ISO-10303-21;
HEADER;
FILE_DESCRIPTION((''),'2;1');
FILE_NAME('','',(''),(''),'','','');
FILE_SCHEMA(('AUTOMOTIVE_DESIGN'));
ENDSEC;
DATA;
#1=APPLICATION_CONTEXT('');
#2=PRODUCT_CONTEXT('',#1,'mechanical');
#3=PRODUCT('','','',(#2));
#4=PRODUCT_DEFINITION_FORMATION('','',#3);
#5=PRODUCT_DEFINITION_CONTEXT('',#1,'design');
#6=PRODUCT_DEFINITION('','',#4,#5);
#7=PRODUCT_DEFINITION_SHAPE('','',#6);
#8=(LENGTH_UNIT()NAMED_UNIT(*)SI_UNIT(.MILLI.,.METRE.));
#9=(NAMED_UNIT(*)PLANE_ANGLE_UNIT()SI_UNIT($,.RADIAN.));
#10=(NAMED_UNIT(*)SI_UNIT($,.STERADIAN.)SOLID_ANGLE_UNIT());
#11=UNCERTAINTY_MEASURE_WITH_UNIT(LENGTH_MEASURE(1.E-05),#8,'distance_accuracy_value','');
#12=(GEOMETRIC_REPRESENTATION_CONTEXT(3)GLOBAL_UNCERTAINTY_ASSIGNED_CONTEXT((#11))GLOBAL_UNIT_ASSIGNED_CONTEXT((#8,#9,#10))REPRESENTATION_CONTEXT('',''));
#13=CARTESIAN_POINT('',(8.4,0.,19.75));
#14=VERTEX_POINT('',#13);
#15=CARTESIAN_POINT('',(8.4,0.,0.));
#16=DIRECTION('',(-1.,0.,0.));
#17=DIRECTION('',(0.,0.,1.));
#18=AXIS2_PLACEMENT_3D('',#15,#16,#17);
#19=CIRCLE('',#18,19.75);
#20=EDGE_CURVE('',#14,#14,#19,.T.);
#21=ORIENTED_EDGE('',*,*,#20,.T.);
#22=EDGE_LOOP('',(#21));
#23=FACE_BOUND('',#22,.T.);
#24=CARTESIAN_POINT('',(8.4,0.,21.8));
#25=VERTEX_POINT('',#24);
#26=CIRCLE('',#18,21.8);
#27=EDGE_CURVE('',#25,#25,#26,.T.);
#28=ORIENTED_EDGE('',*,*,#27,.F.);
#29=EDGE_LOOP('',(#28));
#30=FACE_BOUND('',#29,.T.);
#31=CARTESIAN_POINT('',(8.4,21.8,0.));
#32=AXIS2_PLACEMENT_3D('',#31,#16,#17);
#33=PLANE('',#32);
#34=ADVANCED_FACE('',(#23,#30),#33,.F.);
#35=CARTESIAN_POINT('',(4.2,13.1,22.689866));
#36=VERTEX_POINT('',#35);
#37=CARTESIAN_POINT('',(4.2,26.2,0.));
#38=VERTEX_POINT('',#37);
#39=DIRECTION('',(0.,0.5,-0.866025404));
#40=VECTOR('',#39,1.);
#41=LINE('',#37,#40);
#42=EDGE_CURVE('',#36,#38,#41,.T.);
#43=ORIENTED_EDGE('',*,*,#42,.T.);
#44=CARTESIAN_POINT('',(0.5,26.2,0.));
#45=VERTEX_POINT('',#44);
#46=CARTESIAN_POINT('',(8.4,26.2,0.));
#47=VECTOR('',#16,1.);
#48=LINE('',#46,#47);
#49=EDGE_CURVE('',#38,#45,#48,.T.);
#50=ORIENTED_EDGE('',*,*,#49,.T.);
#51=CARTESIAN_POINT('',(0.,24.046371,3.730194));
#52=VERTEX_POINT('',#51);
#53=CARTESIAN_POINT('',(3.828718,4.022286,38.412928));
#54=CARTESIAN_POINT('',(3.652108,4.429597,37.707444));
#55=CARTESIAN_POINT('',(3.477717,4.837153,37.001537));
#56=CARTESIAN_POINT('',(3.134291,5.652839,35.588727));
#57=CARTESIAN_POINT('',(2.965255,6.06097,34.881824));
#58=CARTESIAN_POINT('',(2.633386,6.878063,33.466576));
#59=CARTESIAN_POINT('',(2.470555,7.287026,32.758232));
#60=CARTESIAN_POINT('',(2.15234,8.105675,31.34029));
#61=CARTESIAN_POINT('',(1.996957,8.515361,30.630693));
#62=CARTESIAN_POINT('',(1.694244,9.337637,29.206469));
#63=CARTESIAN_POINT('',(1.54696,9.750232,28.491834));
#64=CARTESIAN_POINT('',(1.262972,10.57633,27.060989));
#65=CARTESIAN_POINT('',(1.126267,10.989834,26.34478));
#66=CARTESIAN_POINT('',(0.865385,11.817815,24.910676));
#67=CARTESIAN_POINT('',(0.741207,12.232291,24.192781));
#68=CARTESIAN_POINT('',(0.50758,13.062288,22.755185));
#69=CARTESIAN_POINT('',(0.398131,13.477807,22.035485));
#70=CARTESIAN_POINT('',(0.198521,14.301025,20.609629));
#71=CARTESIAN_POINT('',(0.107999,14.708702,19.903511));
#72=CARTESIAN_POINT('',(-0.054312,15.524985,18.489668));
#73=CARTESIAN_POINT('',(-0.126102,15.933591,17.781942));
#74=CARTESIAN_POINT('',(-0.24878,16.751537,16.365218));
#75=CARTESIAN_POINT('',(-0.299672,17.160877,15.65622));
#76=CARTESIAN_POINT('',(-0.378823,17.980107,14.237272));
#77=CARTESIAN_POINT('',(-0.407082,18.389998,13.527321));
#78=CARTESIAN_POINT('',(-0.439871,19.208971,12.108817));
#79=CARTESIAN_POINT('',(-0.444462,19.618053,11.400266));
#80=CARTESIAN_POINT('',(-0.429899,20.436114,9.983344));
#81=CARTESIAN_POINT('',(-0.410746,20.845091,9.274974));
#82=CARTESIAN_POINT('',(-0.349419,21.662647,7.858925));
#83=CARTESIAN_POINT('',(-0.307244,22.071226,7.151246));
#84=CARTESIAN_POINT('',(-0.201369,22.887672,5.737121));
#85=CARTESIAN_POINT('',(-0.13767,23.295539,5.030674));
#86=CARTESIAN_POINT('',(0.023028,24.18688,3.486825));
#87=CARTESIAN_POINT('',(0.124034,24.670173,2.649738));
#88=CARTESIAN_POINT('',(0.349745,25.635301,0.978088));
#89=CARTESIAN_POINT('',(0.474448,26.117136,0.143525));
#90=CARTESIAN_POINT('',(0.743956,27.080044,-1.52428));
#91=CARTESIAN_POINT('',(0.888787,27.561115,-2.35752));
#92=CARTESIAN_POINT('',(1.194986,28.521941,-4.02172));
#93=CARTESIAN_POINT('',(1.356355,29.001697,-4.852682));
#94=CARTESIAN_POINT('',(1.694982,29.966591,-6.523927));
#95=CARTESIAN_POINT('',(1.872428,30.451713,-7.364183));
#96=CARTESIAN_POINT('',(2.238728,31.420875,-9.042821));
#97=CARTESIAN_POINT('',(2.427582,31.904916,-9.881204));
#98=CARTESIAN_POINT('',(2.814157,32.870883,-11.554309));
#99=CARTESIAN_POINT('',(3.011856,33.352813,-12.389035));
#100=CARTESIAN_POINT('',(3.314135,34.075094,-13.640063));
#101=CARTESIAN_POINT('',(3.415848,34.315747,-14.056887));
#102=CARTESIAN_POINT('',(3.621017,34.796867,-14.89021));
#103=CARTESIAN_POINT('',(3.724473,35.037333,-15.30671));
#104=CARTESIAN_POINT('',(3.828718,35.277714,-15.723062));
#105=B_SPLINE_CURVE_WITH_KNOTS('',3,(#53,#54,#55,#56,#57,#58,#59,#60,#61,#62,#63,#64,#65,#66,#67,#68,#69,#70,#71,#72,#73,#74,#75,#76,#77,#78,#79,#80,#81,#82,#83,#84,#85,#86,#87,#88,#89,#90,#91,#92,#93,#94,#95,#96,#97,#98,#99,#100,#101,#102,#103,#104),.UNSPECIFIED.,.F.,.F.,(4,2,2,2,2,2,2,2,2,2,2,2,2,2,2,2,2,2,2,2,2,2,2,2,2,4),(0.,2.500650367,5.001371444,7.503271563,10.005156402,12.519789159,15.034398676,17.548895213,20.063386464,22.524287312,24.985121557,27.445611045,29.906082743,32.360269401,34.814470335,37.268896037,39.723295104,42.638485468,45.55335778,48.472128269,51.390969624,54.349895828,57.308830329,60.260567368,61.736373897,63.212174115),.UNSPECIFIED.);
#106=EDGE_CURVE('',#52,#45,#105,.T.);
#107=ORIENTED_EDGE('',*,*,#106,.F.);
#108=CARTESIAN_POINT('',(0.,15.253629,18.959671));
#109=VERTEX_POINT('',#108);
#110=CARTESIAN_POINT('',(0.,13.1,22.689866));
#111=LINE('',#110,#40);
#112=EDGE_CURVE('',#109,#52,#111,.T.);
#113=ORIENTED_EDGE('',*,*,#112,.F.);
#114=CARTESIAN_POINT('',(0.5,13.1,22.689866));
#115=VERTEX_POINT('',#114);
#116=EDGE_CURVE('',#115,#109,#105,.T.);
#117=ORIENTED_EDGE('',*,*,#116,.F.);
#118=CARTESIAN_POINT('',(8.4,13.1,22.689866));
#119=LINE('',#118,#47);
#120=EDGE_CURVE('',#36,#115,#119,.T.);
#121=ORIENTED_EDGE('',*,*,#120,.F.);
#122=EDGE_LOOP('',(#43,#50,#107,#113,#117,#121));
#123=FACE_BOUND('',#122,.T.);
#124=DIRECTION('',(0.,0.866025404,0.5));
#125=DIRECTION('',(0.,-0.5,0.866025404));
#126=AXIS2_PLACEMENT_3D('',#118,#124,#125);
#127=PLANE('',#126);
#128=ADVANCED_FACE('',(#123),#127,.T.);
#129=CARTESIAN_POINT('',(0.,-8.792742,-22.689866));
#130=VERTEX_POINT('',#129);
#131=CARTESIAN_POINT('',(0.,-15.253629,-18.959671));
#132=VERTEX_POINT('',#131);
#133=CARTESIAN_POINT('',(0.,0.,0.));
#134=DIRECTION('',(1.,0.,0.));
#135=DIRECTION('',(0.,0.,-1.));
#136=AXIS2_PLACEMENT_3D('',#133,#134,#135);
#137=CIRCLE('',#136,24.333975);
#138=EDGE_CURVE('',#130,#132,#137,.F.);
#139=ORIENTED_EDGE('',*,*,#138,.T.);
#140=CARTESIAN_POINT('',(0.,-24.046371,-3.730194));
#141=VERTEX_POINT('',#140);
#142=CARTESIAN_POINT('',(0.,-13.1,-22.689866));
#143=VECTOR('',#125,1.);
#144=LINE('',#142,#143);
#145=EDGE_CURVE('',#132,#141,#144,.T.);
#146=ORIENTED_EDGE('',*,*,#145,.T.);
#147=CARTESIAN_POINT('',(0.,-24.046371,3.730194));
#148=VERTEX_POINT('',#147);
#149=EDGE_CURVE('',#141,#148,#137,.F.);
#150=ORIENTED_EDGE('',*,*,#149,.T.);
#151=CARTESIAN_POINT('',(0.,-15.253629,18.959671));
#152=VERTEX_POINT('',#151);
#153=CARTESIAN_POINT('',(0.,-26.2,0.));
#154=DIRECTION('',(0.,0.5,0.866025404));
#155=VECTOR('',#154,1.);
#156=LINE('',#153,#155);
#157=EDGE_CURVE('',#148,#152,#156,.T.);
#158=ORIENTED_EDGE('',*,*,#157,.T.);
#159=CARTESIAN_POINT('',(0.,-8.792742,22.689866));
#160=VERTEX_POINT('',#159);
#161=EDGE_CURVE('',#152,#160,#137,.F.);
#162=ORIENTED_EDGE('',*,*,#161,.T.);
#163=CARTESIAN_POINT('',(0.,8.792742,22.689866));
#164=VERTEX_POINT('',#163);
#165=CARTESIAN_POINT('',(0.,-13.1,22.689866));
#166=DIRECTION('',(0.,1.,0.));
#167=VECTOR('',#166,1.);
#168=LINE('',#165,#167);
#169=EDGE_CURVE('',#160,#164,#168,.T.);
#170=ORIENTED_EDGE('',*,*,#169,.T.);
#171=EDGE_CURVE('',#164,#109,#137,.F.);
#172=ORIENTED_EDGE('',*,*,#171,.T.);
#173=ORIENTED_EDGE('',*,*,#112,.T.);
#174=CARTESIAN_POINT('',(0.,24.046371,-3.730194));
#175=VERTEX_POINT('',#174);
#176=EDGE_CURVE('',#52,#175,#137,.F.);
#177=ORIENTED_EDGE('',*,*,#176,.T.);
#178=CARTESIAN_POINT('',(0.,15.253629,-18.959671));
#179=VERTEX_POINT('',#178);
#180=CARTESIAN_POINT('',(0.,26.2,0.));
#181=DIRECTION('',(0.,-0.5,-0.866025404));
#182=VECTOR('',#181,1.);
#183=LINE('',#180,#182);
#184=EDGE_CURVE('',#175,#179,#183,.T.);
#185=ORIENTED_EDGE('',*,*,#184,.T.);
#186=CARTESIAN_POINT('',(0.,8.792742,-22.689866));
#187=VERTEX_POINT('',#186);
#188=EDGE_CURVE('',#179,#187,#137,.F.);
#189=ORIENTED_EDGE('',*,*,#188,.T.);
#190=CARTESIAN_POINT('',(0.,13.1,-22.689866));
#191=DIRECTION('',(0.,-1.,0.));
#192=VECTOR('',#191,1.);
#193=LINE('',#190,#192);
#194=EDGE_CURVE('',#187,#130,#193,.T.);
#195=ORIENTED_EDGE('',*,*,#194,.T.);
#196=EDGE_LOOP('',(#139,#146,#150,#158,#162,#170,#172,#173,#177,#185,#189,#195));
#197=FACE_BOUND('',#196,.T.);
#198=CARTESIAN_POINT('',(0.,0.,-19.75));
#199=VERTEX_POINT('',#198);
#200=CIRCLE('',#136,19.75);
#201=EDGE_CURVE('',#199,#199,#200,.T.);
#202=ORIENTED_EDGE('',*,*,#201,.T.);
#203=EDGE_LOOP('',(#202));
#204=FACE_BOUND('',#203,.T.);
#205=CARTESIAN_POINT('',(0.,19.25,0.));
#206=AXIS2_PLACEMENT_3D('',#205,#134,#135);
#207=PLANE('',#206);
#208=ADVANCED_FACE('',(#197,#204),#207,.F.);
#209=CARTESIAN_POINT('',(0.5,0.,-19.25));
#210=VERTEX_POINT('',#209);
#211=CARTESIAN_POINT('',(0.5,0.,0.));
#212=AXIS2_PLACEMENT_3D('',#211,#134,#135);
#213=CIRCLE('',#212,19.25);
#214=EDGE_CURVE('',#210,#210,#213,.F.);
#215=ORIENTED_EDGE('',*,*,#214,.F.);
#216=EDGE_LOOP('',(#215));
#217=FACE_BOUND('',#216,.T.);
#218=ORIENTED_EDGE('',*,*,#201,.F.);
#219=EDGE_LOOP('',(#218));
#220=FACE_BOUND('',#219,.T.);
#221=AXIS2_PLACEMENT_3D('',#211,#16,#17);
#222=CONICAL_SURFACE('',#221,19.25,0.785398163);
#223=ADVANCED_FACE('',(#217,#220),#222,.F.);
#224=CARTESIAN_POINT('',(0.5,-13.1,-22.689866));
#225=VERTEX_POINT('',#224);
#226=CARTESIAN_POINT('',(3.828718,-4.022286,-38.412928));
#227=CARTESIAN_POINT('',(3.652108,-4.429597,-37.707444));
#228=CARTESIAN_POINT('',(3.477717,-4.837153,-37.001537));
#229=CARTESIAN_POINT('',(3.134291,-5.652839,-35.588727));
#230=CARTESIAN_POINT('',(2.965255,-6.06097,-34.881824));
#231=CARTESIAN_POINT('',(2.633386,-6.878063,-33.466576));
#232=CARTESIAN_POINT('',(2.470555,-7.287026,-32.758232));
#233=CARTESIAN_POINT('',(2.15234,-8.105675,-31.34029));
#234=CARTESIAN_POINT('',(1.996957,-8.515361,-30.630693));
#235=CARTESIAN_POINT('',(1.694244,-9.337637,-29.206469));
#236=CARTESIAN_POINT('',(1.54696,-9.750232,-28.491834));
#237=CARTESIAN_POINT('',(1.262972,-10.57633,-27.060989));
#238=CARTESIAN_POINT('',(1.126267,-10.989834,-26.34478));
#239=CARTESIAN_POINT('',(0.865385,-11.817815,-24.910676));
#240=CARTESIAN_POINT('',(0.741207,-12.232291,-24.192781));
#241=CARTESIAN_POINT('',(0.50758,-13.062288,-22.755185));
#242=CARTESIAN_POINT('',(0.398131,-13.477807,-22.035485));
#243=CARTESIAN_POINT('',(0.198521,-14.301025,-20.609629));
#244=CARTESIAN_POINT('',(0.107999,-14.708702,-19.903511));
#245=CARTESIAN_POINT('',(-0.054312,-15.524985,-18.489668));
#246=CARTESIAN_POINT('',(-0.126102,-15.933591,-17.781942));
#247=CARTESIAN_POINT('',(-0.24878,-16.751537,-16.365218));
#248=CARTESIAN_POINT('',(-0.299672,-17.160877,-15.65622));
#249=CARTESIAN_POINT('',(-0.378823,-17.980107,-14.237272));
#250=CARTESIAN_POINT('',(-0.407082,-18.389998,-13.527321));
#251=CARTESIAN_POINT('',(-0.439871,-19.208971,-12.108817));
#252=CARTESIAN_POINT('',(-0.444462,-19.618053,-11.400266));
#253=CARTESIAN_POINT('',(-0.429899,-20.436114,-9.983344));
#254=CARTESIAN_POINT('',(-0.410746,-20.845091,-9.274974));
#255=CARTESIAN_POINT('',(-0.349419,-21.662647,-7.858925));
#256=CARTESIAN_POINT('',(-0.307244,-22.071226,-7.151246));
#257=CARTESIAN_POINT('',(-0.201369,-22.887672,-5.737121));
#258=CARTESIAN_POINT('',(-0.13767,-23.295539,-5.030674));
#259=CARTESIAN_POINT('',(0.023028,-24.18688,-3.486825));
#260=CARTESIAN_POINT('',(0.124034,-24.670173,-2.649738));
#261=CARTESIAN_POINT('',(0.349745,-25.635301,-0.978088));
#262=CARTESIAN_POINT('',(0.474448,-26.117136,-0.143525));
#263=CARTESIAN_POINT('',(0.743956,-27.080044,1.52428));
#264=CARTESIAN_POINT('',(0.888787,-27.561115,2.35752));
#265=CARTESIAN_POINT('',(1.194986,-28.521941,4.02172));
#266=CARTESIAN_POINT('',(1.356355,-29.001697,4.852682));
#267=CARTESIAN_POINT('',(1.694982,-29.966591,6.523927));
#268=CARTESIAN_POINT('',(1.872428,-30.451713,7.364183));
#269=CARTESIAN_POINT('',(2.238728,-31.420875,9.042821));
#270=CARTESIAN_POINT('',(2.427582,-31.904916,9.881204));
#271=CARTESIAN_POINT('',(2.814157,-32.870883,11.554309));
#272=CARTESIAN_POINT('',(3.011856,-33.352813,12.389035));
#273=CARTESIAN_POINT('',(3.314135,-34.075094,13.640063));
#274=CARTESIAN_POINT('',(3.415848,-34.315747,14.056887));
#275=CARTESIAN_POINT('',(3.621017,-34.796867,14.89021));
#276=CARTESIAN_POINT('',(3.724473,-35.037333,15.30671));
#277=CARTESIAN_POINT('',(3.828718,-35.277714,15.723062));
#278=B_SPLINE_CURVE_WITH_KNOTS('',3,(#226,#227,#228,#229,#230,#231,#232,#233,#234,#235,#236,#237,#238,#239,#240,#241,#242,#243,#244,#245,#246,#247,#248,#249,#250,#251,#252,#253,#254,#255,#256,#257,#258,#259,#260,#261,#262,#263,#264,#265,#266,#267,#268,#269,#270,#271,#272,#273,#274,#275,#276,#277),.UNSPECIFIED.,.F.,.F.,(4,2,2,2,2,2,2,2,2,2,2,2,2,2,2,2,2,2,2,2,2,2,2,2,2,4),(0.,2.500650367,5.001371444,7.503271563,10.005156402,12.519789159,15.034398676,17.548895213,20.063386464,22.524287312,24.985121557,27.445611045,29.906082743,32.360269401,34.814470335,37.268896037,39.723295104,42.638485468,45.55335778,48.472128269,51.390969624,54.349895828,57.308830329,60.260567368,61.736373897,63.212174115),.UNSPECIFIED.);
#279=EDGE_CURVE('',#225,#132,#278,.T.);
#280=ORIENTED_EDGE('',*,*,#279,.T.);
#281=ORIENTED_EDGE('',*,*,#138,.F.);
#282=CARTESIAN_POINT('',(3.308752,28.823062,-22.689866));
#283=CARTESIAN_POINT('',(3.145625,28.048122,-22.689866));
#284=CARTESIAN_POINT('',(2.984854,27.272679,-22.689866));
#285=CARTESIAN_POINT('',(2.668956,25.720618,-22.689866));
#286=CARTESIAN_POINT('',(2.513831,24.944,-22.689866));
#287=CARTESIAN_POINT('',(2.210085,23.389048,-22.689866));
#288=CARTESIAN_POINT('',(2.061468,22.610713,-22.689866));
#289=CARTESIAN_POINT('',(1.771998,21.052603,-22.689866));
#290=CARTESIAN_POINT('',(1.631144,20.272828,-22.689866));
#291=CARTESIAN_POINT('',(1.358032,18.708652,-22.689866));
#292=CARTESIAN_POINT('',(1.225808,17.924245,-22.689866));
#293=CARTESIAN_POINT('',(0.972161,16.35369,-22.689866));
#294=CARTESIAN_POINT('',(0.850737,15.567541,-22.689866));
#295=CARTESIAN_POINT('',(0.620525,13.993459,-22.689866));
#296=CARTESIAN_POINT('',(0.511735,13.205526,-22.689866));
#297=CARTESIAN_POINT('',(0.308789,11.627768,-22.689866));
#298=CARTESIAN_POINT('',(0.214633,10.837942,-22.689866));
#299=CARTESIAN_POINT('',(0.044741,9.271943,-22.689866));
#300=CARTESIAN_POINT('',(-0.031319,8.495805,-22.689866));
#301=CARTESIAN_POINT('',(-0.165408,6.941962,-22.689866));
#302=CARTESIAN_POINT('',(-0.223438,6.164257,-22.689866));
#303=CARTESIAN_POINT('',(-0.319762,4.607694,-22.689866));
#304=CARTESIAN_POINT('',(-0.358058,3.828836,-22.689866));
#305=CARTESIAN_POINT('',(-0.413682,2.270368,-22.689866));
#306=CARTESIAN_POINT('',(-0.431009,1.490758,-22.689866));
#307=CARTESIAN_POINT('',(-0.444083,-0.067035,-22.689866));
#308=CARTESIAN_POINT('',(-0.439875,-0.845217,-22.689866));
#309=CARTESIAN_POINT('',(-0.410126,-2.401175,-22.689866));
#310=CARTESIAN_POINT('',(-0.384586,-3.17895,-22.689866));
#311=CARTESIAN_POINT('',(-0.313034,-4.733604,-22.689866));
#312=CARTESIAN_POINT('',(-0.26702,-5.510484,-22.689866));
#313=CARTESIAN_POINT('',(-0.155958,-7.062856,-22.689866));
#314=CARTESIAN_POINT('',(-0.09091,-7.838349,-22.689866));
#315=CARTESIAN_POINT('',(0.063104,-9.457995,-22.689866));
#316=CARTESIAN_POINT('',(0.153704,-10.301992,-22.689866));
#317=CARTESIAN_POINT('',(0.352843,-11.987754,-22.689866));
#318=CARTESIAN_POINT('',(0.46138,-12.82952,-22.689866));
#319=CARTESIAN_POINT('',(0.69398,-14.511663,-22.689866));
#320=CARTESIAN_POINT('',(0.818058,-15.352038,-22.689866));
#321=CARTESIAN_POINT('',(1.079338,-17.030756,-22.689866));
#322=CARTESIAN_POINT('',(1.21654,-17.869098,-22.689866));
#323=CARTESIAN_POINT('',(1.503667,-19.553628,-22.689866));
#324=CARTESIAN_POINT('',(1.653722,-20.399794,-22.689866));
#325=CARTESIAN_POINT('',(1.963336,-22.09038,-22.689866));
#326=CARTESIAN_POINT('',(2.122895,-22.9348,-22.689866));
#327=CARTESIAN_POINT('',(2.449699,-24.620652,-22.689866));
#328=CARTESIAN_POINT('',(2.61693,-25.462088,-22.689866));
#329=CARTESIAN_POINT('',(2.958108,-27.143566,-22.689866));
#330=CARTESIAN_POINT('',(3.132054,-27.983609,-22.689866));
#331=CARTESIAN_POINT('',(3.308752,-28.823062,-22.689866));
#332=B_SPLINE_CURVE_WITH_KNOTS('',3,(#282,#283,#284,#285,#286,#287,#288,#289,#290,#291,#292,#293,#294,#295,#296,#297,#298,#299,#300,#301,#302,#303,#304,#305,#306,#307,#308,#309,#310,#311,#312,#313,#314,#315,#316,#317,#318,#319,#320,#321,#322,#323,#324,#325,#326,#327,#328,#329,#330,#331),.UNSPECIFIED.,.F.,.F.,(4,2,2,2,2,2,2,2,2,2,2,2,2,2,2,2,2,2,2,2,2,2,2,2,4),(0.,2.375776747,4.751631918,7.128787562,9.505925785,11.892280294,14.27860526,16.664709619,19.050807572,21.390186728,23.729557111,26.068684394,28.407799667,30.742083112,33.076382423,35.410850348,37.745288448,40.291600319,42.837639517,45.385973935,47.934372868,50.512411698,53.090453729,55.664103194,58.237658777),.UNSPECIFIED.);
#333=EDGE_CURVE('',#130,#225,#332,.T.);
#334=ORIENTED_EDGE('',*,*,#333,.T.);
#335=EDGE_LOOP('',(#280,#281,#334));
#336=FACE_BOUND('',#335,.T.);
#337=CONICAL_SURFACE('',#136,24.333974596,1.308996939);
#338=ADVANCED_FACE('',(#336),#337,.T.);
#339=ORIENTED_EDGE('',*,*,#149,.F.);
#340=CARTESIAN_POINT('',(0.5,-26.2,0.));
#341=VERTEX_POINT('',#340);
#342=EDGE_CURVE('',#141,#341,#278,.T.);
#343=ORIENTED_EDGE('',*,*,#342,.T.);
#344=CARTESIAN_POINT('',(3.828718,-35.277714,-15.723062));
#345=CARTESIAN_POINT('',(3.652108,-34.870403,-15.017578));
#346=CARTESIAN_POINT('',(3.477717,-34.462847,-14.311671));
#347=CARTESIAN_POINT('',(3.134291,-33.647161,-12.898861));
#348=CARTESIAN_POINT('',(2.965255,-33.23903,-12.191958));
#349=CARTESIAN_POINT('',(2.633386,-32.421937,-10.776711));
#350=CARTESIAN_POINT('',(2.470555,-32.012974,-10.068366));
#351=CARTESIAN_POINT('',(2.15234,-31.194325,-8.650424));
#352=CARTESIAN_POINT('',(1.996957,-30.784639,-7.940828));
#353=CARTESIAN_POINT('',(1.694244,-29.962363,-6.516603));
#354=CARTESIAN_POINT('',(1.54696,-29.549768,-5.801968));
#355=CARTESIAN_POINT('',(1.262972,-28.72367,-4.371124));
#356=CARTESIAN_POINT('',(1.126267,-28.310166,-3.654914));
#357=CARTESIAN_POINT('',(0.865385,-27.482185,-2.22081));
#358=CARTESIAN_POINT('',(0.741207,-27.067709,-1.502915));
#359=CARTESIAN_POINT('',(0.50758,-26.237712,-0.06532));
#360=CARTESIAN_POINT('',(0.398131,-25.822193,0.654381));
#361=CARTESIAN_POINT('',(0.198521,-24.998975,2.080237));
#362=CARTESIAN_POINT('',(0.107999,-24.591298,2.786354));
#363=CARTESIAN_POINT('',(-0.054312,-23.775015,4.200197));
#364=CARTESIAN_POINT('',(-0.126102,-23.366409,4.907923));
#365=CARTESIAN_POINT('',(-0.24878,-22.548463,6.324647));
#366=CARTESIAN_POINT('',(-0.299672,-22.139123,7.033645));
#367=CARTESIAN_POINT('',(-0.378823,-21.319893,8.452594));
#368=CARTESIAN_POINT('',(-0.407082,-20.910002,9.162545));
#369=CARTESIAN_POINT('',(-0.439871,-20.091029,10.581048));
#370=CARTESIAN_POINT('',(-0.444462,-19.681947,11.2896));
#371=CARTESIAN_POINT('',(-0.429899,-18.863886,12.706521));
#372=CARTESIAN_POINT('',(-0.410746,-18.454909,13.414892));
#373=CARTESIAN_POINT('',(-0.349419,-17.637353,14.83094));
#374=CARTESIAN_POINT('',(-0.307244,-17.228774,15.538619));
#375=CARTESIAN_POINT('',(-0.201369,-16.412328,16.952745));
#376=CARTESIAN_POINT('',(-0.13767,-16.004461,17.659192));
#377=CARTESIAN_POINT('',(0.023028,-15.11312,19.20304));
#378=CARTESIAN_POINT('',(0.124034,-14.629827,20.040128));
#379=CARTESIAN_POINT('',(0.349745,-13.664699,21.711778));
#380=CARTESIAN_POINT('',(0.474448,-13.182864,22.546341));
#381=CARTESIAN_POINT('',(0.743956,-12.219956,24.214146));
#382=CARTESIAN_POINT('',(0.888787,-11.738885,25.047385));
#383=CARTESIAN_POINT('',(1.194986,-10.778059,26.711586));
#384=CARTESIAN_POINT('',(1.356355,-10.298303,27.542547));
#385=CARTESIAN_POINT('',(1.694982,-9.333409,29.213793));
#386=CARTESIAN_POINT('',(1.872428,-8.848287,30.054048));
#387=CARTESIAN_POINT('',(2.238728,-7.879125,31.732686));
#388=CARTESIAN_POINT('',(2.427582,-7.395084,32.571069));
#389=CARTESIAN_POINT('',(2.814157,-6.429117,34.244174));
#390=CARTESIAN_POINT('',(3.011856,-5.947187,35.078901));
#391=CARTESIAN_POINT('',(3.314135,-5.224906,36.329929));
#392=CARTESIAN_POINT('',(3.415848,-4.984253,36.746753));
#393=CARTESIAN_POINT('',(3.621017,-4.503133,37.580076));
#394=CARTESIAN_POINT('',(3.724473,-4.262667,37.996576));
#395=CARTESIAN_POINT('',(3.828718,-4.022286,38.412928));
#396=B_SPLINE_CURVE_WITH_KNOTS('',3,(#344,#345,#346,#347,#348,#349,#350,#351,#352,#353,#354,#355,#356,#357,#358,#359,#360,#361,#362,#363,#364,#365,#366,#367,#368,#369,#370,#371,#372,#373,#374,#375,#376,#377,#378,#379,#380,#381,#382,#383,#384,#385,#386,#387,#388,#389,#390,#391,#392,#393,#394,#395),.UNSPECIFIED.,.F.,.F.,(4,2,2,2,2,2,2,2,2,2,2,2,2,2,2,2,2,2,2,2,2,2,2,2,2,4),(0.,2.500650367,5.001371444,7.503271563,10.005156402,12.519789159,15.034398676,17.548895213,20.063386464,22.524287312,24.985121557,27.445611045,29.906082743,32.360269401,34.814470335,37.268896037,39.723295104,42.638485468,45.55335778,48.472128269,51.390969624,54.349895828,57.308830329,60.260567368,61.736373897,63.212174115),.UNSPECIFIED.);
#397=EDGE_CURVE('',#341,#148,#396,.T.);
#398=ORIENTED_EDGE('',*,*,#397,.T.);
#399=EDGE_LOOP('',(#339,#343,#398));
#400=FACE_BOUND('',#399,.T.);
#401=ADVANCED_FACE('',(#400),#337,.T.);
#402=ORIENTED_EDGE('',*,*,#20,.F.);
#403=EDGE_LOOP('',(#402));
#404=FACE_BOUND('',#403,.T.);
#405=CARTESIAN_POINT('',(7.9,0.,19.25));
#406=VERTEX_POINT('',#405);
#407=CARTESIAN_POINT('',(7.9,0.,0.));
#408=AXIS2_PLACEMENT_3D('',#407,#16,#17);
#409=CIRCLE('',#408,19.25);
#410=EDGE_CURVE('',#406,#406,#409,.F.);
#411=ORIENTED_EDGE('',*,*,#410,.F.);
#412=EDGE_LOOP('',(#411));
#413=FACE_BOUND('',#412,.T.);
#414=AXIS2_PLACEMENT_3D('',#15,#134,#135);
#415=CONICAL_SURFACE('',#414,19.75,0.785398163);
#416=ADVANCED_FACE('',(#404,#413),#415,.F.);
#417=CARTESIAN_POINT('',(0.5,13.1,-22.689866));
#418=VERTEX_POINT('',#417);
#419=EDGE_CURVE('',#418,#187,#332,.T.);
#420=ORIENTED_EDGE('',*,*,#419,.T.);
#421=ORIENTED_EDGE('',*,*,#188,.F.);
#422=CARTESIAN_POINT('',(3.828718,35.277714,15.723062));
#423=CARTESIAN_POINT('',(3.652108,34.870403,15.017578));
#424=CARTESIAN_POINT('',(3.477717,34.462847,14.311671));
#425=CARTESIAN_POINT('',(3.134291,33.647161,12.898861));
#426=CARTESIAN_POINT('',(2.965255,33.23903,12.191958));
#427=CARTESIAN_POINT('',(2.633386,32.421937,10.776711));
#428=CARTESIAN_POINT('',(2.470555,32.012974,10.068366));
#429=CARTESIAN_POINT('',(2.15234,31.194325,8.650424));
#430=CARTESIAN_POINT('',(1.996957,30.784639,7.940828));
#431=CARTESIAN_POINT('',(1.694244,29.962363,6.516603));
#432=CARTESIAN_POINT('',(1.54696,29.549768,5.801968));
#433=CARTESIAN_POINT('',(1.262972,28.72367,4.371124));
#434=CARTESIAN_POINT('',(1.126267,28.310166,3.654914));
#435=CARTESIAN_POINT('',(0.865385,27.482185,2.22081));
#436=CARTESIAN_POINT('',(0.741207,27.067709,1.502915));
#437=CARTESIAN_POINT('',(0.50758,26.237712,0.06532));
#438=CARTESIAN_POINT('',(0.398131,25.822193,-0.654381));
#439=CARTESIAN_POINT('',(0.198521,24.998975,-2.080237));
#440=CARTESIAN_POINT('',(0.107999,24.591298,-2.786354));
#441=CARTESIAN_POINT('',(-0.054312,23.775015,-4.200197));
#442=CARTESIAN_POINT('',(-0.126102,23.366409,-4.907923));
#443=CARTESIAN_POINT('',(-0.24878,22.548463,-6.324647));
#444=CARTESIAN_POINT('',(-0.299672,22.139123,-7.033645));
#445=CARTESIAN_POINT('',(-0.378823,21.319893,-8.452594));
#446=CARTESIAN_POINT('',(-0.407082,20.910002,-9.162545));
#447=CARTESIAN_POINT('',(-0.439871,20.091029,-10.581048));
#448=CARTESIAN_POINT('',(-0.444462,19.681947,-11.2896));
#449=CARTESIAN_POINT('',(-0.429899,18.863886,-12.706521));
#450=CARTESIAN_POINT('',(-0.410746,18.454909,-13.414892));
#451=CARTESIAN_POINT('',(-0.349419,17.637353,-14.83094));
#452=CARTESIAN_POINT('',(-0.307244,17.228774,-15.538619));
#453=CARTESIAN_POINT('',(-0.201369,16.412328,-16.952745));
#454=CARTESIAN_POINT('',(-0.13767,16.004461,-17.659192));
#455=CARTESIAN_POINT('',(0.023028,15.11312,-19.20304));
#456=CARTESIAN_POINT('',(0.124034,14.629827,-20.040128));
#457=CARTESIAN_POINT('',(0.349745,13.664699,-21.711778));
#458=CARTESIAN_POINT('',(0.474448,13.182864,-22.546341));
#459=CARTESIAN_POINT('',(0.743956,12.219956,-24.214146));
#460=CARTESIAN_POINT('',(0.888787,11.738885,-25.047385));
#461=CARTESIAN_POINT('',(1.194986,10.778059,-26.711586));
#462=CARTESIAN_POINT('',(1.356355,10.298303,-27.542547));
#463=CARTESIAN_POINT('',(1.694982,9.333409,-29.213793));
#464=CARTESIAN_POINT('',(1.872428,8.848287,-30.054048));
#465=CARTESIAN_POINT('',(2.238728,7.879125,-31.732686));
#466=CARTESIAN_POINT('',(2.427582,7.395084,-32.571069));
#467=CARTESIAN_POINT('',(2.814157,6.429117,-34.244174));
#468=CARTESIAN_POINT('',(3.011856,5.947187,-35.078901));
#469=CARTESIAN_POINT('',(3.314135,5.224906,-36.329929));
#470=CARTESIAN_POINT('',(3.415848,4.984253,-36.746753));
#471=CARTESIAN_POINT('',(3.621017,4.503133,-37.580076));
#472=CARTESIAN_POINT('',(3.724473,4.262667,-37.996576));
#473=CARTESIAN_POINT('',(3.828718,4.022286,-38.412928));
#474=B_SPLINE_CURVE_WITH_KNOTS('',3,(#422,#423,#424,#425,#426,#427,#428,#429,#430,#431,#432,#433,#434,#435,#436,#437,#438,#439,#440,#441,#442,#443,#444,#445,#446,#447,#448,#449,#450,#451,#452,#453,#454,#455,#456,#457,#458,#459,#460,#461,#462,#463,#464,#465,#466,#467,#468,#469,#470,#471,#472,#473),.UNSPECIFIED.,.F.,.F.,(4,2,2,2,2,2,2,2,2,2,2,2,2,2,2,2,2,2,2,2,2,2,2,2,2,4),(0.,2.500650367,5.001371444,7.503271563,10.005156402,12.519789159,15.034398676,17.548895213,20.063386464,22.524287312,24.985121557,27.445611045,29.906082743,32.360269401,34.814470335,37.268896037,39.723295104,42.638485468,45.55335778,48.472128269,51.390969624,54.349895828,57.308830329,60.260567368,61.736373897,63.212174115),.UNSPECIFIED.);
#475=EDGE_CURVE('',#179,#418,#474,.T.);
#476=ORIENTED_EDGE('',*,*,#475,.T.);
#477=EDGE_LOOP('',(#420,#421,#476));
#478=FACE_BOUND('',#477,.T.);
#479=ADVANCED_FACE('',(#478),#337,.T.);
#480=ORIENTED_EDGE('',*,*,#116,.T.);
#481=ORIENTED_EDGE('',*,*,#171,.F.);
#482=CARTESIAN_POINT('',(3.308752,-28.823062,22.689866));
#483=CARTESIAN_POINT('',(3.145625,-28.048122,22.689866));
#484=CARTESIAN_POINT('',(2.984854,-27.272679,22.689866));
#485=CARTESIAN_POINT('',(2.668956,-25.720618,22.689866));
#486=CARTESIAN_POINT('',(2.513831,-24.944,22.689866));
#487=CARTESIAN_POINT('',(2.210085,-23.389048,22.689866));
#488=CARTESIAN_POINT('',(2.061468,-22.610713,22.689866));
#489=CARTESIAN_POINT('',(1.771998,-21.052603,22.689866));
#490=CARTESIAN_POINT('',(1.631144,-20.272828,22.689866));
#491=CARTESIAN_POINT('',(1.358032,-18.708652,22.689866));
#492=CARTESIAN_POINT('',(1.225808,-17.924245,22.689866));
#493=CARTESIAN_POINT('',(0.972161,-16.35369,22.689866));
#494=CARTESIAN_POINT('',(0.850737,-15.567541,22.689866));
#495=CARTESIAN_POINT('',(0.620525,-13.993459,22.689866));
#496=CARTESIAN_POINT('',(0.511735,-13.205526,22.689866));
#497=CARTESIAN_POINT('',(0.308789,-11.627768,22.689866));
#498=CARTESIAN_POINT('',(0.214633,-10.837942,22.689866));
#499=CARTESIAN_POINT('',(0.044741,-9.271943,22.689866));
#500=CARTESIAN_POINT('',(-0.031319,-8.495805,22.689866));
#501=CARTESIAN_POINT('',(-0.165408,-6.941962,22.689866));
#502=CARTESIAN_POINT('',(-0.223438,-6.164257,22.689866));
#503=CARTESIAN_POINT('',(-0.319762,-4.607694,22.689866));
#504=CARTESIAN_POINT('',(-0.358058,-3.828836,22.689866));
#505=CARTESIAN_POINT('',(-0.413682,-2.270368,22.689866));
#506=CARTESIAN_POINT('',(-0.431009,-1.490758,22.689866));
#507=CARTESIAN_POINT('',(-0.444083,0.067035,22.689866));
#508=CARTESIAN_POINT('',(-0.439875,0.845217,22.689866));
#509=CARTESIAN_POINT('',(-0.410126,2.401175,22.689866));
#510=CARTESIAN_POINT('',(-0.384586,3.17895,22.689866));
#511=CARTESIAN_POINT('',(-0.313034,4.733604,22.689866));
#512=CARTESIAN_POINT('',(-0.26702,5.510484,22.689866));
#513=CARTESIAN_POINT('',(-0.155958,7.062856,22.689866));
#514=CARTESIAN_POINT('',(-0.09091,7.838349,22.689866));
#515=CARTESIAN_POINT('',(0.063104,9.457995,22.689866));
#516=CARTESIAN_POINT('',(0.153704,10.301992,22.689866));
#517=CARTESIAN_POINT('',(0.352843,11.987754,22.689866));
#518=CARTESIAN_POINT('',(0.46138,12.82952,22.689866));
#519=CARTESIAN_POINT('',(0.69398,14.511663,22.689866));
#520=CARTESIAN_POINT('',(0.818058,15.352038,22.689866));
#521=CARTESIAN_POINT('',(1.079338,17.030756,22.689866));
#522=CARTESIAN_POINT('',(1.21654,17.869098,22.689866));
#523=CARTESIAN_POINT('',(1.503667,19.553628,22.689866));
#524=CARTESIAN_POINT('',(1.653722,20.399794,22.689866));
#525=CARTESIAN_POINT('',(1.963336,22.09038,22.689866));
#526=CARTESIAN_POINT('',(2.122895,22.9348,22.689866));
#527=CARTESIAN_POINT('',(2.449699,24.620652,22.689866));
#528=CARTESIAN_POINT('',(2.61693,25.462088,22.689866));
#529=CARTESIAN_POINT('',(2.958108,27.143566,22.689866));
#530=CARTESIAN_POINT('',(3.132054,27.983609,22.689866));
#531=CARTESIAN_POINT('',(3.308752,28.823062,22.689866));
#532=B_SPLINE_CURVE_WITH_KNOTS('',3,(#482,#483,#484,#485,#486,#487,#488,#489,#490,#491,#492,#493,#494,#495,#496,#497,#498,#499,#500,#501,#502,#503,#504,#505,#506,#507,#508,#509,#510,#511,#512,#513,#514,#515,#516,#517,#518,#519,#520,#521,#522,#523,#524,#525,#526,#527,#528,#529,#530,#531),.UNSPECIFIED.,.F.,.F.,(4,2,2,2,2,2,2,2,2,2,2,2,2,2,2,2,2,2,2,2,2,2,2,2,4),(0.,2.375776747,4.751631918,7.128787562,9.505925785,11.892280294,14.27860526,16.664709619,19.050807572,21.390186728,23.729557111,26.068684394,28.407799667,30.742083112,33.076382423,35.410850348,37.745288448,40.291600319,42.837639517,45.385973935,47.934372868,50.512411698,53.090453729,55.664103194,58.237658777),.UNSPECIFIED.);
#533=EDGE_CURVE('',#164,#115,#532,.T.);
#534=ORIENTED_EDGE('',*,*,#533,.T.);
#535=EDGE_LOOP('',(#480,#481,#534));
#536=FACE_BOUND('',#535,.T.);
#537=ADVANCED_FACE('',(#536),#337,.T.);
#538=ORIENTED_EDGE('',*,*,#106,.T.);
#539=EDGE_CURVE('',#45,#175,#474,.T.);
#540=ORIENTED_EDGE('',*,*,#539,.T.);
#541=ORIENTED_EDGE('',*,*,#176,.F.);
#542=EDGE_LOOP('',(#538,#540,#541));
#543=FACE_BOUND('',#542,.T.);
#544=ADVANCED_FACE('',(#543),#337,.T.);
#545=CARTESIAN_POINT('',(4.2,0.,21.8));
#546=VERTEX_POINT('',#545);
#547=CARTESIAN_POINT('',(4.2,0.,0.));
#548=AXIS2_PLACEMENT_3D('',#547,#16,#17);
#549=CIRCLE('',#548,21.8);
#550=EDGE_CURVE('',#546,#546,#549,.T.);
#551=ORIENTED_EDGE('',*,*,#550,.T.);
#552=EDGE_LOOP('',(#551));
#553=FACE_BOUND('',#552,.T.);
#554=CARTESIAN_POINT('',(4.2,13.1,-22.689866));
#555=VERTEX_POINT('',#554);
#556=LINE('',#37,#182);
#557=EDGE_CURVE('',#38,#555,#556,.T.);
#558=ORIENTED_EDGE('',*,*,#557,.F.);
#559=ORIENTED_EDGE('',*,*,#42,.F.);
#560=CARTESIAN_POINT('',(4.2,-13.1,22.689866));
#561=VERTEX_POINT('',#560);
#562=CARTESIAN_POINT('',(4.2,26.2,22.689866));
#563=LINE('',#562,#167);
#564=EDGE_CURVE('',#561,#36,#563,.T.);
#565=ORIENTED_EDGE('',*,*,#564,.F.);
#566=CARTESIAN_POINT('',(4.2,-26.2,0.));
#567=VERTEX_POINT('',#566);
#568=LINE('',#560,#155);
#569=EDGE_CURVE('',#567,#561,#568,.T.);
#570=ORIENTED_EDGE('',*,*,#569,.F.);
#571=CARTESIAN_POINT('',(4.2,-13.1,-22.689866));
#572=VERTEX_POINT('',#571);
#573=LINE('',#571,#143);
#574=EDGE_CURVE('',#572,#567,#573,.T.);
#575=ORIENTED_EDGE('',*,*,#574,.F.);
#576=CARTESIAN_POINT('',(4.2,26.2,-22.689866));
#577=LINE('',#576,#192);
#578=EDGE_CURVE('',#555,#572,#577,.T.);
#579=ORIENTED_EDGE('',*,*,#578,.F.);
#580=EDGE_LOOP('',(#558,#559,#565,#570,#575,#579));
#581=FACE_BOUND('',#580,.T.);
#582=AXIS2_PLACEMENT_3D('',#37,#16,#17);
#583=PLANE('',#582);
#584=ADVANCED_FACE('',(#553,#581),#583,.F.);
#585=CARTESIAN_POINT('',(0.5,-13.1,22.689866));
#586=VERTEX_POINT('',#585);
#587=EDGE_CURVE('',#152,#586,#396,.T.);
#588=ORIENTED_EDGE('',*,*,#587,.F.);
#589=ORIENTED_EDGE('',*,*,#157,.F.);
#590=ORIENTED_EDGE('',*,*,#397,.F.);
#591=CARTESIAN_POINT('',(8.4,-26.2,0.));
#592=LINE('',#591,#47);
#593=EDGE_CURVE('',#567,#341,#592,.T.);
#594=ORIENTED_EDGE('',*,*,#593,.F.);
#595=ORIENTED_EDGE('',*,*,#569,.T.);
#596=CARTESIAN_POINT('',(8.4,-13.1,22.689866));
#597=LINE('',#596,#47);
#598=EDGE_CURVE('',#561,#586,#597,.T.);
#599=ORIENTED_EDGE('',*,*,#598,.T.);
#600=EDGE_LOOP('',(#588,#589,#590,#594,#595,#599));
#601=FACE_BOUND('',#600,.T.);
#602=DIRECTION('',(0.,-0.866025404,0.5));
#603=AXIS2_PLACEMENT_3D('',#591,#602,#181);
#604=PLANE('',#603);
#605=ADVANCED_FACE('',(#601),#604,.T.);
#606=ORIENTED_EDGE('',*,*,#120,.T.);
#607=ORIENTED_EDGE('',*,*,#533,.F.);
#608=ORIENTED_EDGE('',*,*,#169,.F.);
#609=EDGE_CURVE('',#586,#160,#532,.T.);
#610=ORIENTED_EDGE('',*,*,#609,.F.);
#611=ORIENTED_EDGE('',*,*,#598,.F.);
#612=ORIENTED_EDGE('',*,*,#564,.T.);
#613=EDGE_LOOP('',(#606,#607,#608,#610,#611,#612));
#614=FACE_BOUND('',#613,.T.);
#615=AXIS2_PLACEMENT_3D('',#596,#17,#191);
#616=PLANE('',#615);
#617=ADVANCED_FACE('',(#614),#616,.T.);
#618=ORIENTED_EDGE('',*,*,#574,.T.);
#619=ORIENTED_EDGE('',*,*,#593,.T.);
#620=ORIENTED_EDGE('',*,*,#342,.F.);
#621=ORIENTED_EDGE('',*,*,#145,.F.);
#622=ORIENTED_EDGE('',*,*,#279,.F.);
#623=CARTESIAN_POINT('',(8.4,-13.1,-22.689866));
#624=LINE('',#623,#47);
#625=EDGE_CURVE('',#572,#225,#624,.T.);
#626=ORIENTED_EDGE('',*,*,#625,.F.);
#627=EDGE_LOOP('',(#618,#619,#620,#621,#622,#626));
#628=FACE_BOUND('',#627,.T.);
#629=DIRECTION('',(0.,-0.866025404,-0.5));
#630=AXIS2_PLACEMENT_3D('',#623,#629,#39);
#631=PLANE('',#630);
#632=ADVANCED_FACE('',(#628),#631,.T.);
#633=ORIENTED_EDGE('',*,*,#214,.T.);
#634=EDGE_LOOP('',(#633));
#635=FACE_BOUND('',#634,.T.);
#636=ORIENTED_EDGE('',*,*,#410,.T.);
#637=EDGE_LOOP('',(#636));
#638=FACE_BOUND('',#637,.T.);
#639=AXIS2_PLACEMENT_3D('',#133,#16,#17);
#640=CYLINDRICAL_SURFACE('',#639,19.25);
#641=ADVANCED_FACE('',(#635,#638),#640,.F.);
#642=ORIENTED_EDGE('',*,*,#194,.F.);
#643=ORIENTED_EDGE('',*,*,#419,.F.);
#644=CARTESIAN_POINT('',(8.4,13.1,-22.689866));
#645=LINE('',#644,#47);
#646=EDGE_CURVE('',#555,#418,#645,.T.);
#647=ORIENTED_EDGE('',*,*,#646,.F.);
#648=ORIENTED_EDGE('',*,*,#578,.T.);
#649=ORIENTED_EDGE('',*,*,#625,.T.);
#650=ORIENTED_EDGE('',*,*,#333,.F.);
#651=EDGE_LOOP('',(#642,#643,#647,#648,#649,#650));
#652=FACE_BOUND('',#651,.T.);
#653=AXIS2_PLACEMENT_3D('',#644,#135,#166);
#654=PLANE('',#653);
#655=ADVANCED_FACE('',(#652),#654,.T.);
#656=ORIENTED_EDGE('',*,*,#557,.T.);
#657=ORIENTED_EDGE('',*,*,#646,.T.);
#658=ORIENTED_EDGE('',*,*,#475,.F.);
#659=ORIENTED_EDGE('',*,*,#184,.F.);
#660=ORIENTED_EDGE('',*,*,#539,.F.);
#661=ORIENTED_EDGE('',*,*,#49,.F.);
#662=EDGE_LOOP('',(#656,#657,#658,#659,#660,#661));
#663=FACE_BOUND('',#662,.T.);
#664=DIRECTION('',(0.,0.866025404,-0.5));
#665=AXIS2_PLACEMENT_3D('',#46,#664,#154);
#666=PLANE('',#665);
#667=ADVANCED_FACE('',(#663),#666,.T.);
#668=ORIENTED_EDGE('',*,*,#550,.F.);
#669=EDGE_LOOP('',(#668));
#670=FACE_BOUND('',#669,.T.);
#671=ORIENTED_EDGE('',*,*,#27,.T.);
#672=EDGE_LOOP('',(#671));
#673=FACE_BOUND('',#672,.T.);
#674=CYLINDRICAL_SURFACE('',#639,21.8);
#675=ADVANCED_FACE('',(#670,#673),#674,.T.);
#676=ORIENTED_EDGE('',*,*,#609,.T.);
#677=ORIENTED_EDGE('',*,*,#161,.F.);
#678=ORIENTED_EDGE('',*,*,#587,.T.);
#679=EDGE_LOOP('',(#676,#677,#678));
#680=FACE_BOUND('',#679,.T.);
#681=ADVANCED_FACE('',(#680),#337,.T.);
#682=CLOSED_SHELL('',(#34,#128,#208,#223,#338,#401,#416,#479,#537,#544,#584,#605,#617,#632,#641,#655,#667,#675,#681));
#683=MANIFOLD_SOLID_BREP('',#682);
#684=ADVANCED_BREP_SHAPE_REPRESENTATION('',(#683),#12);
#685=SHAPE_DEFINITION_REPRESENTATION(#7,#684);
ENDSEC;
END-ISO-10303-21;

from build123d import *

# Parameters (mm, degrees)
CHAMFER1_SIZE  = 0.5
CHAMFER1_SIZE2 = 1.866025404
SKETCH2_R      = 30.350258036
EXTRUDE1_DEPTH = 38.992630864
CHAMFER2_SIZE  = 0.5


with BuildPart() as part:
    # Sketch1 → Revolve1 (revolve)
    with BuildSketch(Plane.XY, mode=Mode.PRIVATE) as revolve1_sk:
        Polygon((0, 19.25), (0, 26.2), (4.2, 26.2), (4.2, 21.8), (8.4, 21.8), (8.4, 19.25), align=None)
    revolve(revolve1_sk.sketch.rotate(Axis((0, 0, 0), (1, 0, 0)), 90), axis=Axis((0, 0, 0), (1, 0, 0)))

    # Chamfer1
    chamfer1_edges = [part.edges().sort_by_distance(p)[0] for p in [
        (0, 0, -26.2),
    ]]
    chamfer1_side = [part.faces().sort_by_distance(p)[0] for p in [
        (2.1, 0, -26.2),
    ]]
    chamfer(chamfer1_edges, length=CHAMFER1_SIZE, length2=CHAMFER1_SIZE2, reference=chamfer1_side[0])

    # Sketch2 → Extrude1 (cut, through all)
    with BuildSketch(Plane.ZY):
        Circle(SKETCH2_R)
        Polygon((0, 26.2), (-22.689865579, 13.1), (-22.689865579, -13.1), (0, -26.2), (22.689865579, -13.1), (22.689865579, 13.1), align=None, mode=Mode.SUBTRACT)
    extrude(amount=-EXTRUDE1_DEPTH, mode=Mode.SUBTRACT)

    # Chamfer2
    chamfer2_edges = [part.edges().sort_by_distance(p)[0] for p in [
        (8.4, 0, -19.25),
        (0, 0, -19.25),
    ]]
    chamfer(chamfer2_edges, length=CHAMFER2_SIZE)


solid = part.part
